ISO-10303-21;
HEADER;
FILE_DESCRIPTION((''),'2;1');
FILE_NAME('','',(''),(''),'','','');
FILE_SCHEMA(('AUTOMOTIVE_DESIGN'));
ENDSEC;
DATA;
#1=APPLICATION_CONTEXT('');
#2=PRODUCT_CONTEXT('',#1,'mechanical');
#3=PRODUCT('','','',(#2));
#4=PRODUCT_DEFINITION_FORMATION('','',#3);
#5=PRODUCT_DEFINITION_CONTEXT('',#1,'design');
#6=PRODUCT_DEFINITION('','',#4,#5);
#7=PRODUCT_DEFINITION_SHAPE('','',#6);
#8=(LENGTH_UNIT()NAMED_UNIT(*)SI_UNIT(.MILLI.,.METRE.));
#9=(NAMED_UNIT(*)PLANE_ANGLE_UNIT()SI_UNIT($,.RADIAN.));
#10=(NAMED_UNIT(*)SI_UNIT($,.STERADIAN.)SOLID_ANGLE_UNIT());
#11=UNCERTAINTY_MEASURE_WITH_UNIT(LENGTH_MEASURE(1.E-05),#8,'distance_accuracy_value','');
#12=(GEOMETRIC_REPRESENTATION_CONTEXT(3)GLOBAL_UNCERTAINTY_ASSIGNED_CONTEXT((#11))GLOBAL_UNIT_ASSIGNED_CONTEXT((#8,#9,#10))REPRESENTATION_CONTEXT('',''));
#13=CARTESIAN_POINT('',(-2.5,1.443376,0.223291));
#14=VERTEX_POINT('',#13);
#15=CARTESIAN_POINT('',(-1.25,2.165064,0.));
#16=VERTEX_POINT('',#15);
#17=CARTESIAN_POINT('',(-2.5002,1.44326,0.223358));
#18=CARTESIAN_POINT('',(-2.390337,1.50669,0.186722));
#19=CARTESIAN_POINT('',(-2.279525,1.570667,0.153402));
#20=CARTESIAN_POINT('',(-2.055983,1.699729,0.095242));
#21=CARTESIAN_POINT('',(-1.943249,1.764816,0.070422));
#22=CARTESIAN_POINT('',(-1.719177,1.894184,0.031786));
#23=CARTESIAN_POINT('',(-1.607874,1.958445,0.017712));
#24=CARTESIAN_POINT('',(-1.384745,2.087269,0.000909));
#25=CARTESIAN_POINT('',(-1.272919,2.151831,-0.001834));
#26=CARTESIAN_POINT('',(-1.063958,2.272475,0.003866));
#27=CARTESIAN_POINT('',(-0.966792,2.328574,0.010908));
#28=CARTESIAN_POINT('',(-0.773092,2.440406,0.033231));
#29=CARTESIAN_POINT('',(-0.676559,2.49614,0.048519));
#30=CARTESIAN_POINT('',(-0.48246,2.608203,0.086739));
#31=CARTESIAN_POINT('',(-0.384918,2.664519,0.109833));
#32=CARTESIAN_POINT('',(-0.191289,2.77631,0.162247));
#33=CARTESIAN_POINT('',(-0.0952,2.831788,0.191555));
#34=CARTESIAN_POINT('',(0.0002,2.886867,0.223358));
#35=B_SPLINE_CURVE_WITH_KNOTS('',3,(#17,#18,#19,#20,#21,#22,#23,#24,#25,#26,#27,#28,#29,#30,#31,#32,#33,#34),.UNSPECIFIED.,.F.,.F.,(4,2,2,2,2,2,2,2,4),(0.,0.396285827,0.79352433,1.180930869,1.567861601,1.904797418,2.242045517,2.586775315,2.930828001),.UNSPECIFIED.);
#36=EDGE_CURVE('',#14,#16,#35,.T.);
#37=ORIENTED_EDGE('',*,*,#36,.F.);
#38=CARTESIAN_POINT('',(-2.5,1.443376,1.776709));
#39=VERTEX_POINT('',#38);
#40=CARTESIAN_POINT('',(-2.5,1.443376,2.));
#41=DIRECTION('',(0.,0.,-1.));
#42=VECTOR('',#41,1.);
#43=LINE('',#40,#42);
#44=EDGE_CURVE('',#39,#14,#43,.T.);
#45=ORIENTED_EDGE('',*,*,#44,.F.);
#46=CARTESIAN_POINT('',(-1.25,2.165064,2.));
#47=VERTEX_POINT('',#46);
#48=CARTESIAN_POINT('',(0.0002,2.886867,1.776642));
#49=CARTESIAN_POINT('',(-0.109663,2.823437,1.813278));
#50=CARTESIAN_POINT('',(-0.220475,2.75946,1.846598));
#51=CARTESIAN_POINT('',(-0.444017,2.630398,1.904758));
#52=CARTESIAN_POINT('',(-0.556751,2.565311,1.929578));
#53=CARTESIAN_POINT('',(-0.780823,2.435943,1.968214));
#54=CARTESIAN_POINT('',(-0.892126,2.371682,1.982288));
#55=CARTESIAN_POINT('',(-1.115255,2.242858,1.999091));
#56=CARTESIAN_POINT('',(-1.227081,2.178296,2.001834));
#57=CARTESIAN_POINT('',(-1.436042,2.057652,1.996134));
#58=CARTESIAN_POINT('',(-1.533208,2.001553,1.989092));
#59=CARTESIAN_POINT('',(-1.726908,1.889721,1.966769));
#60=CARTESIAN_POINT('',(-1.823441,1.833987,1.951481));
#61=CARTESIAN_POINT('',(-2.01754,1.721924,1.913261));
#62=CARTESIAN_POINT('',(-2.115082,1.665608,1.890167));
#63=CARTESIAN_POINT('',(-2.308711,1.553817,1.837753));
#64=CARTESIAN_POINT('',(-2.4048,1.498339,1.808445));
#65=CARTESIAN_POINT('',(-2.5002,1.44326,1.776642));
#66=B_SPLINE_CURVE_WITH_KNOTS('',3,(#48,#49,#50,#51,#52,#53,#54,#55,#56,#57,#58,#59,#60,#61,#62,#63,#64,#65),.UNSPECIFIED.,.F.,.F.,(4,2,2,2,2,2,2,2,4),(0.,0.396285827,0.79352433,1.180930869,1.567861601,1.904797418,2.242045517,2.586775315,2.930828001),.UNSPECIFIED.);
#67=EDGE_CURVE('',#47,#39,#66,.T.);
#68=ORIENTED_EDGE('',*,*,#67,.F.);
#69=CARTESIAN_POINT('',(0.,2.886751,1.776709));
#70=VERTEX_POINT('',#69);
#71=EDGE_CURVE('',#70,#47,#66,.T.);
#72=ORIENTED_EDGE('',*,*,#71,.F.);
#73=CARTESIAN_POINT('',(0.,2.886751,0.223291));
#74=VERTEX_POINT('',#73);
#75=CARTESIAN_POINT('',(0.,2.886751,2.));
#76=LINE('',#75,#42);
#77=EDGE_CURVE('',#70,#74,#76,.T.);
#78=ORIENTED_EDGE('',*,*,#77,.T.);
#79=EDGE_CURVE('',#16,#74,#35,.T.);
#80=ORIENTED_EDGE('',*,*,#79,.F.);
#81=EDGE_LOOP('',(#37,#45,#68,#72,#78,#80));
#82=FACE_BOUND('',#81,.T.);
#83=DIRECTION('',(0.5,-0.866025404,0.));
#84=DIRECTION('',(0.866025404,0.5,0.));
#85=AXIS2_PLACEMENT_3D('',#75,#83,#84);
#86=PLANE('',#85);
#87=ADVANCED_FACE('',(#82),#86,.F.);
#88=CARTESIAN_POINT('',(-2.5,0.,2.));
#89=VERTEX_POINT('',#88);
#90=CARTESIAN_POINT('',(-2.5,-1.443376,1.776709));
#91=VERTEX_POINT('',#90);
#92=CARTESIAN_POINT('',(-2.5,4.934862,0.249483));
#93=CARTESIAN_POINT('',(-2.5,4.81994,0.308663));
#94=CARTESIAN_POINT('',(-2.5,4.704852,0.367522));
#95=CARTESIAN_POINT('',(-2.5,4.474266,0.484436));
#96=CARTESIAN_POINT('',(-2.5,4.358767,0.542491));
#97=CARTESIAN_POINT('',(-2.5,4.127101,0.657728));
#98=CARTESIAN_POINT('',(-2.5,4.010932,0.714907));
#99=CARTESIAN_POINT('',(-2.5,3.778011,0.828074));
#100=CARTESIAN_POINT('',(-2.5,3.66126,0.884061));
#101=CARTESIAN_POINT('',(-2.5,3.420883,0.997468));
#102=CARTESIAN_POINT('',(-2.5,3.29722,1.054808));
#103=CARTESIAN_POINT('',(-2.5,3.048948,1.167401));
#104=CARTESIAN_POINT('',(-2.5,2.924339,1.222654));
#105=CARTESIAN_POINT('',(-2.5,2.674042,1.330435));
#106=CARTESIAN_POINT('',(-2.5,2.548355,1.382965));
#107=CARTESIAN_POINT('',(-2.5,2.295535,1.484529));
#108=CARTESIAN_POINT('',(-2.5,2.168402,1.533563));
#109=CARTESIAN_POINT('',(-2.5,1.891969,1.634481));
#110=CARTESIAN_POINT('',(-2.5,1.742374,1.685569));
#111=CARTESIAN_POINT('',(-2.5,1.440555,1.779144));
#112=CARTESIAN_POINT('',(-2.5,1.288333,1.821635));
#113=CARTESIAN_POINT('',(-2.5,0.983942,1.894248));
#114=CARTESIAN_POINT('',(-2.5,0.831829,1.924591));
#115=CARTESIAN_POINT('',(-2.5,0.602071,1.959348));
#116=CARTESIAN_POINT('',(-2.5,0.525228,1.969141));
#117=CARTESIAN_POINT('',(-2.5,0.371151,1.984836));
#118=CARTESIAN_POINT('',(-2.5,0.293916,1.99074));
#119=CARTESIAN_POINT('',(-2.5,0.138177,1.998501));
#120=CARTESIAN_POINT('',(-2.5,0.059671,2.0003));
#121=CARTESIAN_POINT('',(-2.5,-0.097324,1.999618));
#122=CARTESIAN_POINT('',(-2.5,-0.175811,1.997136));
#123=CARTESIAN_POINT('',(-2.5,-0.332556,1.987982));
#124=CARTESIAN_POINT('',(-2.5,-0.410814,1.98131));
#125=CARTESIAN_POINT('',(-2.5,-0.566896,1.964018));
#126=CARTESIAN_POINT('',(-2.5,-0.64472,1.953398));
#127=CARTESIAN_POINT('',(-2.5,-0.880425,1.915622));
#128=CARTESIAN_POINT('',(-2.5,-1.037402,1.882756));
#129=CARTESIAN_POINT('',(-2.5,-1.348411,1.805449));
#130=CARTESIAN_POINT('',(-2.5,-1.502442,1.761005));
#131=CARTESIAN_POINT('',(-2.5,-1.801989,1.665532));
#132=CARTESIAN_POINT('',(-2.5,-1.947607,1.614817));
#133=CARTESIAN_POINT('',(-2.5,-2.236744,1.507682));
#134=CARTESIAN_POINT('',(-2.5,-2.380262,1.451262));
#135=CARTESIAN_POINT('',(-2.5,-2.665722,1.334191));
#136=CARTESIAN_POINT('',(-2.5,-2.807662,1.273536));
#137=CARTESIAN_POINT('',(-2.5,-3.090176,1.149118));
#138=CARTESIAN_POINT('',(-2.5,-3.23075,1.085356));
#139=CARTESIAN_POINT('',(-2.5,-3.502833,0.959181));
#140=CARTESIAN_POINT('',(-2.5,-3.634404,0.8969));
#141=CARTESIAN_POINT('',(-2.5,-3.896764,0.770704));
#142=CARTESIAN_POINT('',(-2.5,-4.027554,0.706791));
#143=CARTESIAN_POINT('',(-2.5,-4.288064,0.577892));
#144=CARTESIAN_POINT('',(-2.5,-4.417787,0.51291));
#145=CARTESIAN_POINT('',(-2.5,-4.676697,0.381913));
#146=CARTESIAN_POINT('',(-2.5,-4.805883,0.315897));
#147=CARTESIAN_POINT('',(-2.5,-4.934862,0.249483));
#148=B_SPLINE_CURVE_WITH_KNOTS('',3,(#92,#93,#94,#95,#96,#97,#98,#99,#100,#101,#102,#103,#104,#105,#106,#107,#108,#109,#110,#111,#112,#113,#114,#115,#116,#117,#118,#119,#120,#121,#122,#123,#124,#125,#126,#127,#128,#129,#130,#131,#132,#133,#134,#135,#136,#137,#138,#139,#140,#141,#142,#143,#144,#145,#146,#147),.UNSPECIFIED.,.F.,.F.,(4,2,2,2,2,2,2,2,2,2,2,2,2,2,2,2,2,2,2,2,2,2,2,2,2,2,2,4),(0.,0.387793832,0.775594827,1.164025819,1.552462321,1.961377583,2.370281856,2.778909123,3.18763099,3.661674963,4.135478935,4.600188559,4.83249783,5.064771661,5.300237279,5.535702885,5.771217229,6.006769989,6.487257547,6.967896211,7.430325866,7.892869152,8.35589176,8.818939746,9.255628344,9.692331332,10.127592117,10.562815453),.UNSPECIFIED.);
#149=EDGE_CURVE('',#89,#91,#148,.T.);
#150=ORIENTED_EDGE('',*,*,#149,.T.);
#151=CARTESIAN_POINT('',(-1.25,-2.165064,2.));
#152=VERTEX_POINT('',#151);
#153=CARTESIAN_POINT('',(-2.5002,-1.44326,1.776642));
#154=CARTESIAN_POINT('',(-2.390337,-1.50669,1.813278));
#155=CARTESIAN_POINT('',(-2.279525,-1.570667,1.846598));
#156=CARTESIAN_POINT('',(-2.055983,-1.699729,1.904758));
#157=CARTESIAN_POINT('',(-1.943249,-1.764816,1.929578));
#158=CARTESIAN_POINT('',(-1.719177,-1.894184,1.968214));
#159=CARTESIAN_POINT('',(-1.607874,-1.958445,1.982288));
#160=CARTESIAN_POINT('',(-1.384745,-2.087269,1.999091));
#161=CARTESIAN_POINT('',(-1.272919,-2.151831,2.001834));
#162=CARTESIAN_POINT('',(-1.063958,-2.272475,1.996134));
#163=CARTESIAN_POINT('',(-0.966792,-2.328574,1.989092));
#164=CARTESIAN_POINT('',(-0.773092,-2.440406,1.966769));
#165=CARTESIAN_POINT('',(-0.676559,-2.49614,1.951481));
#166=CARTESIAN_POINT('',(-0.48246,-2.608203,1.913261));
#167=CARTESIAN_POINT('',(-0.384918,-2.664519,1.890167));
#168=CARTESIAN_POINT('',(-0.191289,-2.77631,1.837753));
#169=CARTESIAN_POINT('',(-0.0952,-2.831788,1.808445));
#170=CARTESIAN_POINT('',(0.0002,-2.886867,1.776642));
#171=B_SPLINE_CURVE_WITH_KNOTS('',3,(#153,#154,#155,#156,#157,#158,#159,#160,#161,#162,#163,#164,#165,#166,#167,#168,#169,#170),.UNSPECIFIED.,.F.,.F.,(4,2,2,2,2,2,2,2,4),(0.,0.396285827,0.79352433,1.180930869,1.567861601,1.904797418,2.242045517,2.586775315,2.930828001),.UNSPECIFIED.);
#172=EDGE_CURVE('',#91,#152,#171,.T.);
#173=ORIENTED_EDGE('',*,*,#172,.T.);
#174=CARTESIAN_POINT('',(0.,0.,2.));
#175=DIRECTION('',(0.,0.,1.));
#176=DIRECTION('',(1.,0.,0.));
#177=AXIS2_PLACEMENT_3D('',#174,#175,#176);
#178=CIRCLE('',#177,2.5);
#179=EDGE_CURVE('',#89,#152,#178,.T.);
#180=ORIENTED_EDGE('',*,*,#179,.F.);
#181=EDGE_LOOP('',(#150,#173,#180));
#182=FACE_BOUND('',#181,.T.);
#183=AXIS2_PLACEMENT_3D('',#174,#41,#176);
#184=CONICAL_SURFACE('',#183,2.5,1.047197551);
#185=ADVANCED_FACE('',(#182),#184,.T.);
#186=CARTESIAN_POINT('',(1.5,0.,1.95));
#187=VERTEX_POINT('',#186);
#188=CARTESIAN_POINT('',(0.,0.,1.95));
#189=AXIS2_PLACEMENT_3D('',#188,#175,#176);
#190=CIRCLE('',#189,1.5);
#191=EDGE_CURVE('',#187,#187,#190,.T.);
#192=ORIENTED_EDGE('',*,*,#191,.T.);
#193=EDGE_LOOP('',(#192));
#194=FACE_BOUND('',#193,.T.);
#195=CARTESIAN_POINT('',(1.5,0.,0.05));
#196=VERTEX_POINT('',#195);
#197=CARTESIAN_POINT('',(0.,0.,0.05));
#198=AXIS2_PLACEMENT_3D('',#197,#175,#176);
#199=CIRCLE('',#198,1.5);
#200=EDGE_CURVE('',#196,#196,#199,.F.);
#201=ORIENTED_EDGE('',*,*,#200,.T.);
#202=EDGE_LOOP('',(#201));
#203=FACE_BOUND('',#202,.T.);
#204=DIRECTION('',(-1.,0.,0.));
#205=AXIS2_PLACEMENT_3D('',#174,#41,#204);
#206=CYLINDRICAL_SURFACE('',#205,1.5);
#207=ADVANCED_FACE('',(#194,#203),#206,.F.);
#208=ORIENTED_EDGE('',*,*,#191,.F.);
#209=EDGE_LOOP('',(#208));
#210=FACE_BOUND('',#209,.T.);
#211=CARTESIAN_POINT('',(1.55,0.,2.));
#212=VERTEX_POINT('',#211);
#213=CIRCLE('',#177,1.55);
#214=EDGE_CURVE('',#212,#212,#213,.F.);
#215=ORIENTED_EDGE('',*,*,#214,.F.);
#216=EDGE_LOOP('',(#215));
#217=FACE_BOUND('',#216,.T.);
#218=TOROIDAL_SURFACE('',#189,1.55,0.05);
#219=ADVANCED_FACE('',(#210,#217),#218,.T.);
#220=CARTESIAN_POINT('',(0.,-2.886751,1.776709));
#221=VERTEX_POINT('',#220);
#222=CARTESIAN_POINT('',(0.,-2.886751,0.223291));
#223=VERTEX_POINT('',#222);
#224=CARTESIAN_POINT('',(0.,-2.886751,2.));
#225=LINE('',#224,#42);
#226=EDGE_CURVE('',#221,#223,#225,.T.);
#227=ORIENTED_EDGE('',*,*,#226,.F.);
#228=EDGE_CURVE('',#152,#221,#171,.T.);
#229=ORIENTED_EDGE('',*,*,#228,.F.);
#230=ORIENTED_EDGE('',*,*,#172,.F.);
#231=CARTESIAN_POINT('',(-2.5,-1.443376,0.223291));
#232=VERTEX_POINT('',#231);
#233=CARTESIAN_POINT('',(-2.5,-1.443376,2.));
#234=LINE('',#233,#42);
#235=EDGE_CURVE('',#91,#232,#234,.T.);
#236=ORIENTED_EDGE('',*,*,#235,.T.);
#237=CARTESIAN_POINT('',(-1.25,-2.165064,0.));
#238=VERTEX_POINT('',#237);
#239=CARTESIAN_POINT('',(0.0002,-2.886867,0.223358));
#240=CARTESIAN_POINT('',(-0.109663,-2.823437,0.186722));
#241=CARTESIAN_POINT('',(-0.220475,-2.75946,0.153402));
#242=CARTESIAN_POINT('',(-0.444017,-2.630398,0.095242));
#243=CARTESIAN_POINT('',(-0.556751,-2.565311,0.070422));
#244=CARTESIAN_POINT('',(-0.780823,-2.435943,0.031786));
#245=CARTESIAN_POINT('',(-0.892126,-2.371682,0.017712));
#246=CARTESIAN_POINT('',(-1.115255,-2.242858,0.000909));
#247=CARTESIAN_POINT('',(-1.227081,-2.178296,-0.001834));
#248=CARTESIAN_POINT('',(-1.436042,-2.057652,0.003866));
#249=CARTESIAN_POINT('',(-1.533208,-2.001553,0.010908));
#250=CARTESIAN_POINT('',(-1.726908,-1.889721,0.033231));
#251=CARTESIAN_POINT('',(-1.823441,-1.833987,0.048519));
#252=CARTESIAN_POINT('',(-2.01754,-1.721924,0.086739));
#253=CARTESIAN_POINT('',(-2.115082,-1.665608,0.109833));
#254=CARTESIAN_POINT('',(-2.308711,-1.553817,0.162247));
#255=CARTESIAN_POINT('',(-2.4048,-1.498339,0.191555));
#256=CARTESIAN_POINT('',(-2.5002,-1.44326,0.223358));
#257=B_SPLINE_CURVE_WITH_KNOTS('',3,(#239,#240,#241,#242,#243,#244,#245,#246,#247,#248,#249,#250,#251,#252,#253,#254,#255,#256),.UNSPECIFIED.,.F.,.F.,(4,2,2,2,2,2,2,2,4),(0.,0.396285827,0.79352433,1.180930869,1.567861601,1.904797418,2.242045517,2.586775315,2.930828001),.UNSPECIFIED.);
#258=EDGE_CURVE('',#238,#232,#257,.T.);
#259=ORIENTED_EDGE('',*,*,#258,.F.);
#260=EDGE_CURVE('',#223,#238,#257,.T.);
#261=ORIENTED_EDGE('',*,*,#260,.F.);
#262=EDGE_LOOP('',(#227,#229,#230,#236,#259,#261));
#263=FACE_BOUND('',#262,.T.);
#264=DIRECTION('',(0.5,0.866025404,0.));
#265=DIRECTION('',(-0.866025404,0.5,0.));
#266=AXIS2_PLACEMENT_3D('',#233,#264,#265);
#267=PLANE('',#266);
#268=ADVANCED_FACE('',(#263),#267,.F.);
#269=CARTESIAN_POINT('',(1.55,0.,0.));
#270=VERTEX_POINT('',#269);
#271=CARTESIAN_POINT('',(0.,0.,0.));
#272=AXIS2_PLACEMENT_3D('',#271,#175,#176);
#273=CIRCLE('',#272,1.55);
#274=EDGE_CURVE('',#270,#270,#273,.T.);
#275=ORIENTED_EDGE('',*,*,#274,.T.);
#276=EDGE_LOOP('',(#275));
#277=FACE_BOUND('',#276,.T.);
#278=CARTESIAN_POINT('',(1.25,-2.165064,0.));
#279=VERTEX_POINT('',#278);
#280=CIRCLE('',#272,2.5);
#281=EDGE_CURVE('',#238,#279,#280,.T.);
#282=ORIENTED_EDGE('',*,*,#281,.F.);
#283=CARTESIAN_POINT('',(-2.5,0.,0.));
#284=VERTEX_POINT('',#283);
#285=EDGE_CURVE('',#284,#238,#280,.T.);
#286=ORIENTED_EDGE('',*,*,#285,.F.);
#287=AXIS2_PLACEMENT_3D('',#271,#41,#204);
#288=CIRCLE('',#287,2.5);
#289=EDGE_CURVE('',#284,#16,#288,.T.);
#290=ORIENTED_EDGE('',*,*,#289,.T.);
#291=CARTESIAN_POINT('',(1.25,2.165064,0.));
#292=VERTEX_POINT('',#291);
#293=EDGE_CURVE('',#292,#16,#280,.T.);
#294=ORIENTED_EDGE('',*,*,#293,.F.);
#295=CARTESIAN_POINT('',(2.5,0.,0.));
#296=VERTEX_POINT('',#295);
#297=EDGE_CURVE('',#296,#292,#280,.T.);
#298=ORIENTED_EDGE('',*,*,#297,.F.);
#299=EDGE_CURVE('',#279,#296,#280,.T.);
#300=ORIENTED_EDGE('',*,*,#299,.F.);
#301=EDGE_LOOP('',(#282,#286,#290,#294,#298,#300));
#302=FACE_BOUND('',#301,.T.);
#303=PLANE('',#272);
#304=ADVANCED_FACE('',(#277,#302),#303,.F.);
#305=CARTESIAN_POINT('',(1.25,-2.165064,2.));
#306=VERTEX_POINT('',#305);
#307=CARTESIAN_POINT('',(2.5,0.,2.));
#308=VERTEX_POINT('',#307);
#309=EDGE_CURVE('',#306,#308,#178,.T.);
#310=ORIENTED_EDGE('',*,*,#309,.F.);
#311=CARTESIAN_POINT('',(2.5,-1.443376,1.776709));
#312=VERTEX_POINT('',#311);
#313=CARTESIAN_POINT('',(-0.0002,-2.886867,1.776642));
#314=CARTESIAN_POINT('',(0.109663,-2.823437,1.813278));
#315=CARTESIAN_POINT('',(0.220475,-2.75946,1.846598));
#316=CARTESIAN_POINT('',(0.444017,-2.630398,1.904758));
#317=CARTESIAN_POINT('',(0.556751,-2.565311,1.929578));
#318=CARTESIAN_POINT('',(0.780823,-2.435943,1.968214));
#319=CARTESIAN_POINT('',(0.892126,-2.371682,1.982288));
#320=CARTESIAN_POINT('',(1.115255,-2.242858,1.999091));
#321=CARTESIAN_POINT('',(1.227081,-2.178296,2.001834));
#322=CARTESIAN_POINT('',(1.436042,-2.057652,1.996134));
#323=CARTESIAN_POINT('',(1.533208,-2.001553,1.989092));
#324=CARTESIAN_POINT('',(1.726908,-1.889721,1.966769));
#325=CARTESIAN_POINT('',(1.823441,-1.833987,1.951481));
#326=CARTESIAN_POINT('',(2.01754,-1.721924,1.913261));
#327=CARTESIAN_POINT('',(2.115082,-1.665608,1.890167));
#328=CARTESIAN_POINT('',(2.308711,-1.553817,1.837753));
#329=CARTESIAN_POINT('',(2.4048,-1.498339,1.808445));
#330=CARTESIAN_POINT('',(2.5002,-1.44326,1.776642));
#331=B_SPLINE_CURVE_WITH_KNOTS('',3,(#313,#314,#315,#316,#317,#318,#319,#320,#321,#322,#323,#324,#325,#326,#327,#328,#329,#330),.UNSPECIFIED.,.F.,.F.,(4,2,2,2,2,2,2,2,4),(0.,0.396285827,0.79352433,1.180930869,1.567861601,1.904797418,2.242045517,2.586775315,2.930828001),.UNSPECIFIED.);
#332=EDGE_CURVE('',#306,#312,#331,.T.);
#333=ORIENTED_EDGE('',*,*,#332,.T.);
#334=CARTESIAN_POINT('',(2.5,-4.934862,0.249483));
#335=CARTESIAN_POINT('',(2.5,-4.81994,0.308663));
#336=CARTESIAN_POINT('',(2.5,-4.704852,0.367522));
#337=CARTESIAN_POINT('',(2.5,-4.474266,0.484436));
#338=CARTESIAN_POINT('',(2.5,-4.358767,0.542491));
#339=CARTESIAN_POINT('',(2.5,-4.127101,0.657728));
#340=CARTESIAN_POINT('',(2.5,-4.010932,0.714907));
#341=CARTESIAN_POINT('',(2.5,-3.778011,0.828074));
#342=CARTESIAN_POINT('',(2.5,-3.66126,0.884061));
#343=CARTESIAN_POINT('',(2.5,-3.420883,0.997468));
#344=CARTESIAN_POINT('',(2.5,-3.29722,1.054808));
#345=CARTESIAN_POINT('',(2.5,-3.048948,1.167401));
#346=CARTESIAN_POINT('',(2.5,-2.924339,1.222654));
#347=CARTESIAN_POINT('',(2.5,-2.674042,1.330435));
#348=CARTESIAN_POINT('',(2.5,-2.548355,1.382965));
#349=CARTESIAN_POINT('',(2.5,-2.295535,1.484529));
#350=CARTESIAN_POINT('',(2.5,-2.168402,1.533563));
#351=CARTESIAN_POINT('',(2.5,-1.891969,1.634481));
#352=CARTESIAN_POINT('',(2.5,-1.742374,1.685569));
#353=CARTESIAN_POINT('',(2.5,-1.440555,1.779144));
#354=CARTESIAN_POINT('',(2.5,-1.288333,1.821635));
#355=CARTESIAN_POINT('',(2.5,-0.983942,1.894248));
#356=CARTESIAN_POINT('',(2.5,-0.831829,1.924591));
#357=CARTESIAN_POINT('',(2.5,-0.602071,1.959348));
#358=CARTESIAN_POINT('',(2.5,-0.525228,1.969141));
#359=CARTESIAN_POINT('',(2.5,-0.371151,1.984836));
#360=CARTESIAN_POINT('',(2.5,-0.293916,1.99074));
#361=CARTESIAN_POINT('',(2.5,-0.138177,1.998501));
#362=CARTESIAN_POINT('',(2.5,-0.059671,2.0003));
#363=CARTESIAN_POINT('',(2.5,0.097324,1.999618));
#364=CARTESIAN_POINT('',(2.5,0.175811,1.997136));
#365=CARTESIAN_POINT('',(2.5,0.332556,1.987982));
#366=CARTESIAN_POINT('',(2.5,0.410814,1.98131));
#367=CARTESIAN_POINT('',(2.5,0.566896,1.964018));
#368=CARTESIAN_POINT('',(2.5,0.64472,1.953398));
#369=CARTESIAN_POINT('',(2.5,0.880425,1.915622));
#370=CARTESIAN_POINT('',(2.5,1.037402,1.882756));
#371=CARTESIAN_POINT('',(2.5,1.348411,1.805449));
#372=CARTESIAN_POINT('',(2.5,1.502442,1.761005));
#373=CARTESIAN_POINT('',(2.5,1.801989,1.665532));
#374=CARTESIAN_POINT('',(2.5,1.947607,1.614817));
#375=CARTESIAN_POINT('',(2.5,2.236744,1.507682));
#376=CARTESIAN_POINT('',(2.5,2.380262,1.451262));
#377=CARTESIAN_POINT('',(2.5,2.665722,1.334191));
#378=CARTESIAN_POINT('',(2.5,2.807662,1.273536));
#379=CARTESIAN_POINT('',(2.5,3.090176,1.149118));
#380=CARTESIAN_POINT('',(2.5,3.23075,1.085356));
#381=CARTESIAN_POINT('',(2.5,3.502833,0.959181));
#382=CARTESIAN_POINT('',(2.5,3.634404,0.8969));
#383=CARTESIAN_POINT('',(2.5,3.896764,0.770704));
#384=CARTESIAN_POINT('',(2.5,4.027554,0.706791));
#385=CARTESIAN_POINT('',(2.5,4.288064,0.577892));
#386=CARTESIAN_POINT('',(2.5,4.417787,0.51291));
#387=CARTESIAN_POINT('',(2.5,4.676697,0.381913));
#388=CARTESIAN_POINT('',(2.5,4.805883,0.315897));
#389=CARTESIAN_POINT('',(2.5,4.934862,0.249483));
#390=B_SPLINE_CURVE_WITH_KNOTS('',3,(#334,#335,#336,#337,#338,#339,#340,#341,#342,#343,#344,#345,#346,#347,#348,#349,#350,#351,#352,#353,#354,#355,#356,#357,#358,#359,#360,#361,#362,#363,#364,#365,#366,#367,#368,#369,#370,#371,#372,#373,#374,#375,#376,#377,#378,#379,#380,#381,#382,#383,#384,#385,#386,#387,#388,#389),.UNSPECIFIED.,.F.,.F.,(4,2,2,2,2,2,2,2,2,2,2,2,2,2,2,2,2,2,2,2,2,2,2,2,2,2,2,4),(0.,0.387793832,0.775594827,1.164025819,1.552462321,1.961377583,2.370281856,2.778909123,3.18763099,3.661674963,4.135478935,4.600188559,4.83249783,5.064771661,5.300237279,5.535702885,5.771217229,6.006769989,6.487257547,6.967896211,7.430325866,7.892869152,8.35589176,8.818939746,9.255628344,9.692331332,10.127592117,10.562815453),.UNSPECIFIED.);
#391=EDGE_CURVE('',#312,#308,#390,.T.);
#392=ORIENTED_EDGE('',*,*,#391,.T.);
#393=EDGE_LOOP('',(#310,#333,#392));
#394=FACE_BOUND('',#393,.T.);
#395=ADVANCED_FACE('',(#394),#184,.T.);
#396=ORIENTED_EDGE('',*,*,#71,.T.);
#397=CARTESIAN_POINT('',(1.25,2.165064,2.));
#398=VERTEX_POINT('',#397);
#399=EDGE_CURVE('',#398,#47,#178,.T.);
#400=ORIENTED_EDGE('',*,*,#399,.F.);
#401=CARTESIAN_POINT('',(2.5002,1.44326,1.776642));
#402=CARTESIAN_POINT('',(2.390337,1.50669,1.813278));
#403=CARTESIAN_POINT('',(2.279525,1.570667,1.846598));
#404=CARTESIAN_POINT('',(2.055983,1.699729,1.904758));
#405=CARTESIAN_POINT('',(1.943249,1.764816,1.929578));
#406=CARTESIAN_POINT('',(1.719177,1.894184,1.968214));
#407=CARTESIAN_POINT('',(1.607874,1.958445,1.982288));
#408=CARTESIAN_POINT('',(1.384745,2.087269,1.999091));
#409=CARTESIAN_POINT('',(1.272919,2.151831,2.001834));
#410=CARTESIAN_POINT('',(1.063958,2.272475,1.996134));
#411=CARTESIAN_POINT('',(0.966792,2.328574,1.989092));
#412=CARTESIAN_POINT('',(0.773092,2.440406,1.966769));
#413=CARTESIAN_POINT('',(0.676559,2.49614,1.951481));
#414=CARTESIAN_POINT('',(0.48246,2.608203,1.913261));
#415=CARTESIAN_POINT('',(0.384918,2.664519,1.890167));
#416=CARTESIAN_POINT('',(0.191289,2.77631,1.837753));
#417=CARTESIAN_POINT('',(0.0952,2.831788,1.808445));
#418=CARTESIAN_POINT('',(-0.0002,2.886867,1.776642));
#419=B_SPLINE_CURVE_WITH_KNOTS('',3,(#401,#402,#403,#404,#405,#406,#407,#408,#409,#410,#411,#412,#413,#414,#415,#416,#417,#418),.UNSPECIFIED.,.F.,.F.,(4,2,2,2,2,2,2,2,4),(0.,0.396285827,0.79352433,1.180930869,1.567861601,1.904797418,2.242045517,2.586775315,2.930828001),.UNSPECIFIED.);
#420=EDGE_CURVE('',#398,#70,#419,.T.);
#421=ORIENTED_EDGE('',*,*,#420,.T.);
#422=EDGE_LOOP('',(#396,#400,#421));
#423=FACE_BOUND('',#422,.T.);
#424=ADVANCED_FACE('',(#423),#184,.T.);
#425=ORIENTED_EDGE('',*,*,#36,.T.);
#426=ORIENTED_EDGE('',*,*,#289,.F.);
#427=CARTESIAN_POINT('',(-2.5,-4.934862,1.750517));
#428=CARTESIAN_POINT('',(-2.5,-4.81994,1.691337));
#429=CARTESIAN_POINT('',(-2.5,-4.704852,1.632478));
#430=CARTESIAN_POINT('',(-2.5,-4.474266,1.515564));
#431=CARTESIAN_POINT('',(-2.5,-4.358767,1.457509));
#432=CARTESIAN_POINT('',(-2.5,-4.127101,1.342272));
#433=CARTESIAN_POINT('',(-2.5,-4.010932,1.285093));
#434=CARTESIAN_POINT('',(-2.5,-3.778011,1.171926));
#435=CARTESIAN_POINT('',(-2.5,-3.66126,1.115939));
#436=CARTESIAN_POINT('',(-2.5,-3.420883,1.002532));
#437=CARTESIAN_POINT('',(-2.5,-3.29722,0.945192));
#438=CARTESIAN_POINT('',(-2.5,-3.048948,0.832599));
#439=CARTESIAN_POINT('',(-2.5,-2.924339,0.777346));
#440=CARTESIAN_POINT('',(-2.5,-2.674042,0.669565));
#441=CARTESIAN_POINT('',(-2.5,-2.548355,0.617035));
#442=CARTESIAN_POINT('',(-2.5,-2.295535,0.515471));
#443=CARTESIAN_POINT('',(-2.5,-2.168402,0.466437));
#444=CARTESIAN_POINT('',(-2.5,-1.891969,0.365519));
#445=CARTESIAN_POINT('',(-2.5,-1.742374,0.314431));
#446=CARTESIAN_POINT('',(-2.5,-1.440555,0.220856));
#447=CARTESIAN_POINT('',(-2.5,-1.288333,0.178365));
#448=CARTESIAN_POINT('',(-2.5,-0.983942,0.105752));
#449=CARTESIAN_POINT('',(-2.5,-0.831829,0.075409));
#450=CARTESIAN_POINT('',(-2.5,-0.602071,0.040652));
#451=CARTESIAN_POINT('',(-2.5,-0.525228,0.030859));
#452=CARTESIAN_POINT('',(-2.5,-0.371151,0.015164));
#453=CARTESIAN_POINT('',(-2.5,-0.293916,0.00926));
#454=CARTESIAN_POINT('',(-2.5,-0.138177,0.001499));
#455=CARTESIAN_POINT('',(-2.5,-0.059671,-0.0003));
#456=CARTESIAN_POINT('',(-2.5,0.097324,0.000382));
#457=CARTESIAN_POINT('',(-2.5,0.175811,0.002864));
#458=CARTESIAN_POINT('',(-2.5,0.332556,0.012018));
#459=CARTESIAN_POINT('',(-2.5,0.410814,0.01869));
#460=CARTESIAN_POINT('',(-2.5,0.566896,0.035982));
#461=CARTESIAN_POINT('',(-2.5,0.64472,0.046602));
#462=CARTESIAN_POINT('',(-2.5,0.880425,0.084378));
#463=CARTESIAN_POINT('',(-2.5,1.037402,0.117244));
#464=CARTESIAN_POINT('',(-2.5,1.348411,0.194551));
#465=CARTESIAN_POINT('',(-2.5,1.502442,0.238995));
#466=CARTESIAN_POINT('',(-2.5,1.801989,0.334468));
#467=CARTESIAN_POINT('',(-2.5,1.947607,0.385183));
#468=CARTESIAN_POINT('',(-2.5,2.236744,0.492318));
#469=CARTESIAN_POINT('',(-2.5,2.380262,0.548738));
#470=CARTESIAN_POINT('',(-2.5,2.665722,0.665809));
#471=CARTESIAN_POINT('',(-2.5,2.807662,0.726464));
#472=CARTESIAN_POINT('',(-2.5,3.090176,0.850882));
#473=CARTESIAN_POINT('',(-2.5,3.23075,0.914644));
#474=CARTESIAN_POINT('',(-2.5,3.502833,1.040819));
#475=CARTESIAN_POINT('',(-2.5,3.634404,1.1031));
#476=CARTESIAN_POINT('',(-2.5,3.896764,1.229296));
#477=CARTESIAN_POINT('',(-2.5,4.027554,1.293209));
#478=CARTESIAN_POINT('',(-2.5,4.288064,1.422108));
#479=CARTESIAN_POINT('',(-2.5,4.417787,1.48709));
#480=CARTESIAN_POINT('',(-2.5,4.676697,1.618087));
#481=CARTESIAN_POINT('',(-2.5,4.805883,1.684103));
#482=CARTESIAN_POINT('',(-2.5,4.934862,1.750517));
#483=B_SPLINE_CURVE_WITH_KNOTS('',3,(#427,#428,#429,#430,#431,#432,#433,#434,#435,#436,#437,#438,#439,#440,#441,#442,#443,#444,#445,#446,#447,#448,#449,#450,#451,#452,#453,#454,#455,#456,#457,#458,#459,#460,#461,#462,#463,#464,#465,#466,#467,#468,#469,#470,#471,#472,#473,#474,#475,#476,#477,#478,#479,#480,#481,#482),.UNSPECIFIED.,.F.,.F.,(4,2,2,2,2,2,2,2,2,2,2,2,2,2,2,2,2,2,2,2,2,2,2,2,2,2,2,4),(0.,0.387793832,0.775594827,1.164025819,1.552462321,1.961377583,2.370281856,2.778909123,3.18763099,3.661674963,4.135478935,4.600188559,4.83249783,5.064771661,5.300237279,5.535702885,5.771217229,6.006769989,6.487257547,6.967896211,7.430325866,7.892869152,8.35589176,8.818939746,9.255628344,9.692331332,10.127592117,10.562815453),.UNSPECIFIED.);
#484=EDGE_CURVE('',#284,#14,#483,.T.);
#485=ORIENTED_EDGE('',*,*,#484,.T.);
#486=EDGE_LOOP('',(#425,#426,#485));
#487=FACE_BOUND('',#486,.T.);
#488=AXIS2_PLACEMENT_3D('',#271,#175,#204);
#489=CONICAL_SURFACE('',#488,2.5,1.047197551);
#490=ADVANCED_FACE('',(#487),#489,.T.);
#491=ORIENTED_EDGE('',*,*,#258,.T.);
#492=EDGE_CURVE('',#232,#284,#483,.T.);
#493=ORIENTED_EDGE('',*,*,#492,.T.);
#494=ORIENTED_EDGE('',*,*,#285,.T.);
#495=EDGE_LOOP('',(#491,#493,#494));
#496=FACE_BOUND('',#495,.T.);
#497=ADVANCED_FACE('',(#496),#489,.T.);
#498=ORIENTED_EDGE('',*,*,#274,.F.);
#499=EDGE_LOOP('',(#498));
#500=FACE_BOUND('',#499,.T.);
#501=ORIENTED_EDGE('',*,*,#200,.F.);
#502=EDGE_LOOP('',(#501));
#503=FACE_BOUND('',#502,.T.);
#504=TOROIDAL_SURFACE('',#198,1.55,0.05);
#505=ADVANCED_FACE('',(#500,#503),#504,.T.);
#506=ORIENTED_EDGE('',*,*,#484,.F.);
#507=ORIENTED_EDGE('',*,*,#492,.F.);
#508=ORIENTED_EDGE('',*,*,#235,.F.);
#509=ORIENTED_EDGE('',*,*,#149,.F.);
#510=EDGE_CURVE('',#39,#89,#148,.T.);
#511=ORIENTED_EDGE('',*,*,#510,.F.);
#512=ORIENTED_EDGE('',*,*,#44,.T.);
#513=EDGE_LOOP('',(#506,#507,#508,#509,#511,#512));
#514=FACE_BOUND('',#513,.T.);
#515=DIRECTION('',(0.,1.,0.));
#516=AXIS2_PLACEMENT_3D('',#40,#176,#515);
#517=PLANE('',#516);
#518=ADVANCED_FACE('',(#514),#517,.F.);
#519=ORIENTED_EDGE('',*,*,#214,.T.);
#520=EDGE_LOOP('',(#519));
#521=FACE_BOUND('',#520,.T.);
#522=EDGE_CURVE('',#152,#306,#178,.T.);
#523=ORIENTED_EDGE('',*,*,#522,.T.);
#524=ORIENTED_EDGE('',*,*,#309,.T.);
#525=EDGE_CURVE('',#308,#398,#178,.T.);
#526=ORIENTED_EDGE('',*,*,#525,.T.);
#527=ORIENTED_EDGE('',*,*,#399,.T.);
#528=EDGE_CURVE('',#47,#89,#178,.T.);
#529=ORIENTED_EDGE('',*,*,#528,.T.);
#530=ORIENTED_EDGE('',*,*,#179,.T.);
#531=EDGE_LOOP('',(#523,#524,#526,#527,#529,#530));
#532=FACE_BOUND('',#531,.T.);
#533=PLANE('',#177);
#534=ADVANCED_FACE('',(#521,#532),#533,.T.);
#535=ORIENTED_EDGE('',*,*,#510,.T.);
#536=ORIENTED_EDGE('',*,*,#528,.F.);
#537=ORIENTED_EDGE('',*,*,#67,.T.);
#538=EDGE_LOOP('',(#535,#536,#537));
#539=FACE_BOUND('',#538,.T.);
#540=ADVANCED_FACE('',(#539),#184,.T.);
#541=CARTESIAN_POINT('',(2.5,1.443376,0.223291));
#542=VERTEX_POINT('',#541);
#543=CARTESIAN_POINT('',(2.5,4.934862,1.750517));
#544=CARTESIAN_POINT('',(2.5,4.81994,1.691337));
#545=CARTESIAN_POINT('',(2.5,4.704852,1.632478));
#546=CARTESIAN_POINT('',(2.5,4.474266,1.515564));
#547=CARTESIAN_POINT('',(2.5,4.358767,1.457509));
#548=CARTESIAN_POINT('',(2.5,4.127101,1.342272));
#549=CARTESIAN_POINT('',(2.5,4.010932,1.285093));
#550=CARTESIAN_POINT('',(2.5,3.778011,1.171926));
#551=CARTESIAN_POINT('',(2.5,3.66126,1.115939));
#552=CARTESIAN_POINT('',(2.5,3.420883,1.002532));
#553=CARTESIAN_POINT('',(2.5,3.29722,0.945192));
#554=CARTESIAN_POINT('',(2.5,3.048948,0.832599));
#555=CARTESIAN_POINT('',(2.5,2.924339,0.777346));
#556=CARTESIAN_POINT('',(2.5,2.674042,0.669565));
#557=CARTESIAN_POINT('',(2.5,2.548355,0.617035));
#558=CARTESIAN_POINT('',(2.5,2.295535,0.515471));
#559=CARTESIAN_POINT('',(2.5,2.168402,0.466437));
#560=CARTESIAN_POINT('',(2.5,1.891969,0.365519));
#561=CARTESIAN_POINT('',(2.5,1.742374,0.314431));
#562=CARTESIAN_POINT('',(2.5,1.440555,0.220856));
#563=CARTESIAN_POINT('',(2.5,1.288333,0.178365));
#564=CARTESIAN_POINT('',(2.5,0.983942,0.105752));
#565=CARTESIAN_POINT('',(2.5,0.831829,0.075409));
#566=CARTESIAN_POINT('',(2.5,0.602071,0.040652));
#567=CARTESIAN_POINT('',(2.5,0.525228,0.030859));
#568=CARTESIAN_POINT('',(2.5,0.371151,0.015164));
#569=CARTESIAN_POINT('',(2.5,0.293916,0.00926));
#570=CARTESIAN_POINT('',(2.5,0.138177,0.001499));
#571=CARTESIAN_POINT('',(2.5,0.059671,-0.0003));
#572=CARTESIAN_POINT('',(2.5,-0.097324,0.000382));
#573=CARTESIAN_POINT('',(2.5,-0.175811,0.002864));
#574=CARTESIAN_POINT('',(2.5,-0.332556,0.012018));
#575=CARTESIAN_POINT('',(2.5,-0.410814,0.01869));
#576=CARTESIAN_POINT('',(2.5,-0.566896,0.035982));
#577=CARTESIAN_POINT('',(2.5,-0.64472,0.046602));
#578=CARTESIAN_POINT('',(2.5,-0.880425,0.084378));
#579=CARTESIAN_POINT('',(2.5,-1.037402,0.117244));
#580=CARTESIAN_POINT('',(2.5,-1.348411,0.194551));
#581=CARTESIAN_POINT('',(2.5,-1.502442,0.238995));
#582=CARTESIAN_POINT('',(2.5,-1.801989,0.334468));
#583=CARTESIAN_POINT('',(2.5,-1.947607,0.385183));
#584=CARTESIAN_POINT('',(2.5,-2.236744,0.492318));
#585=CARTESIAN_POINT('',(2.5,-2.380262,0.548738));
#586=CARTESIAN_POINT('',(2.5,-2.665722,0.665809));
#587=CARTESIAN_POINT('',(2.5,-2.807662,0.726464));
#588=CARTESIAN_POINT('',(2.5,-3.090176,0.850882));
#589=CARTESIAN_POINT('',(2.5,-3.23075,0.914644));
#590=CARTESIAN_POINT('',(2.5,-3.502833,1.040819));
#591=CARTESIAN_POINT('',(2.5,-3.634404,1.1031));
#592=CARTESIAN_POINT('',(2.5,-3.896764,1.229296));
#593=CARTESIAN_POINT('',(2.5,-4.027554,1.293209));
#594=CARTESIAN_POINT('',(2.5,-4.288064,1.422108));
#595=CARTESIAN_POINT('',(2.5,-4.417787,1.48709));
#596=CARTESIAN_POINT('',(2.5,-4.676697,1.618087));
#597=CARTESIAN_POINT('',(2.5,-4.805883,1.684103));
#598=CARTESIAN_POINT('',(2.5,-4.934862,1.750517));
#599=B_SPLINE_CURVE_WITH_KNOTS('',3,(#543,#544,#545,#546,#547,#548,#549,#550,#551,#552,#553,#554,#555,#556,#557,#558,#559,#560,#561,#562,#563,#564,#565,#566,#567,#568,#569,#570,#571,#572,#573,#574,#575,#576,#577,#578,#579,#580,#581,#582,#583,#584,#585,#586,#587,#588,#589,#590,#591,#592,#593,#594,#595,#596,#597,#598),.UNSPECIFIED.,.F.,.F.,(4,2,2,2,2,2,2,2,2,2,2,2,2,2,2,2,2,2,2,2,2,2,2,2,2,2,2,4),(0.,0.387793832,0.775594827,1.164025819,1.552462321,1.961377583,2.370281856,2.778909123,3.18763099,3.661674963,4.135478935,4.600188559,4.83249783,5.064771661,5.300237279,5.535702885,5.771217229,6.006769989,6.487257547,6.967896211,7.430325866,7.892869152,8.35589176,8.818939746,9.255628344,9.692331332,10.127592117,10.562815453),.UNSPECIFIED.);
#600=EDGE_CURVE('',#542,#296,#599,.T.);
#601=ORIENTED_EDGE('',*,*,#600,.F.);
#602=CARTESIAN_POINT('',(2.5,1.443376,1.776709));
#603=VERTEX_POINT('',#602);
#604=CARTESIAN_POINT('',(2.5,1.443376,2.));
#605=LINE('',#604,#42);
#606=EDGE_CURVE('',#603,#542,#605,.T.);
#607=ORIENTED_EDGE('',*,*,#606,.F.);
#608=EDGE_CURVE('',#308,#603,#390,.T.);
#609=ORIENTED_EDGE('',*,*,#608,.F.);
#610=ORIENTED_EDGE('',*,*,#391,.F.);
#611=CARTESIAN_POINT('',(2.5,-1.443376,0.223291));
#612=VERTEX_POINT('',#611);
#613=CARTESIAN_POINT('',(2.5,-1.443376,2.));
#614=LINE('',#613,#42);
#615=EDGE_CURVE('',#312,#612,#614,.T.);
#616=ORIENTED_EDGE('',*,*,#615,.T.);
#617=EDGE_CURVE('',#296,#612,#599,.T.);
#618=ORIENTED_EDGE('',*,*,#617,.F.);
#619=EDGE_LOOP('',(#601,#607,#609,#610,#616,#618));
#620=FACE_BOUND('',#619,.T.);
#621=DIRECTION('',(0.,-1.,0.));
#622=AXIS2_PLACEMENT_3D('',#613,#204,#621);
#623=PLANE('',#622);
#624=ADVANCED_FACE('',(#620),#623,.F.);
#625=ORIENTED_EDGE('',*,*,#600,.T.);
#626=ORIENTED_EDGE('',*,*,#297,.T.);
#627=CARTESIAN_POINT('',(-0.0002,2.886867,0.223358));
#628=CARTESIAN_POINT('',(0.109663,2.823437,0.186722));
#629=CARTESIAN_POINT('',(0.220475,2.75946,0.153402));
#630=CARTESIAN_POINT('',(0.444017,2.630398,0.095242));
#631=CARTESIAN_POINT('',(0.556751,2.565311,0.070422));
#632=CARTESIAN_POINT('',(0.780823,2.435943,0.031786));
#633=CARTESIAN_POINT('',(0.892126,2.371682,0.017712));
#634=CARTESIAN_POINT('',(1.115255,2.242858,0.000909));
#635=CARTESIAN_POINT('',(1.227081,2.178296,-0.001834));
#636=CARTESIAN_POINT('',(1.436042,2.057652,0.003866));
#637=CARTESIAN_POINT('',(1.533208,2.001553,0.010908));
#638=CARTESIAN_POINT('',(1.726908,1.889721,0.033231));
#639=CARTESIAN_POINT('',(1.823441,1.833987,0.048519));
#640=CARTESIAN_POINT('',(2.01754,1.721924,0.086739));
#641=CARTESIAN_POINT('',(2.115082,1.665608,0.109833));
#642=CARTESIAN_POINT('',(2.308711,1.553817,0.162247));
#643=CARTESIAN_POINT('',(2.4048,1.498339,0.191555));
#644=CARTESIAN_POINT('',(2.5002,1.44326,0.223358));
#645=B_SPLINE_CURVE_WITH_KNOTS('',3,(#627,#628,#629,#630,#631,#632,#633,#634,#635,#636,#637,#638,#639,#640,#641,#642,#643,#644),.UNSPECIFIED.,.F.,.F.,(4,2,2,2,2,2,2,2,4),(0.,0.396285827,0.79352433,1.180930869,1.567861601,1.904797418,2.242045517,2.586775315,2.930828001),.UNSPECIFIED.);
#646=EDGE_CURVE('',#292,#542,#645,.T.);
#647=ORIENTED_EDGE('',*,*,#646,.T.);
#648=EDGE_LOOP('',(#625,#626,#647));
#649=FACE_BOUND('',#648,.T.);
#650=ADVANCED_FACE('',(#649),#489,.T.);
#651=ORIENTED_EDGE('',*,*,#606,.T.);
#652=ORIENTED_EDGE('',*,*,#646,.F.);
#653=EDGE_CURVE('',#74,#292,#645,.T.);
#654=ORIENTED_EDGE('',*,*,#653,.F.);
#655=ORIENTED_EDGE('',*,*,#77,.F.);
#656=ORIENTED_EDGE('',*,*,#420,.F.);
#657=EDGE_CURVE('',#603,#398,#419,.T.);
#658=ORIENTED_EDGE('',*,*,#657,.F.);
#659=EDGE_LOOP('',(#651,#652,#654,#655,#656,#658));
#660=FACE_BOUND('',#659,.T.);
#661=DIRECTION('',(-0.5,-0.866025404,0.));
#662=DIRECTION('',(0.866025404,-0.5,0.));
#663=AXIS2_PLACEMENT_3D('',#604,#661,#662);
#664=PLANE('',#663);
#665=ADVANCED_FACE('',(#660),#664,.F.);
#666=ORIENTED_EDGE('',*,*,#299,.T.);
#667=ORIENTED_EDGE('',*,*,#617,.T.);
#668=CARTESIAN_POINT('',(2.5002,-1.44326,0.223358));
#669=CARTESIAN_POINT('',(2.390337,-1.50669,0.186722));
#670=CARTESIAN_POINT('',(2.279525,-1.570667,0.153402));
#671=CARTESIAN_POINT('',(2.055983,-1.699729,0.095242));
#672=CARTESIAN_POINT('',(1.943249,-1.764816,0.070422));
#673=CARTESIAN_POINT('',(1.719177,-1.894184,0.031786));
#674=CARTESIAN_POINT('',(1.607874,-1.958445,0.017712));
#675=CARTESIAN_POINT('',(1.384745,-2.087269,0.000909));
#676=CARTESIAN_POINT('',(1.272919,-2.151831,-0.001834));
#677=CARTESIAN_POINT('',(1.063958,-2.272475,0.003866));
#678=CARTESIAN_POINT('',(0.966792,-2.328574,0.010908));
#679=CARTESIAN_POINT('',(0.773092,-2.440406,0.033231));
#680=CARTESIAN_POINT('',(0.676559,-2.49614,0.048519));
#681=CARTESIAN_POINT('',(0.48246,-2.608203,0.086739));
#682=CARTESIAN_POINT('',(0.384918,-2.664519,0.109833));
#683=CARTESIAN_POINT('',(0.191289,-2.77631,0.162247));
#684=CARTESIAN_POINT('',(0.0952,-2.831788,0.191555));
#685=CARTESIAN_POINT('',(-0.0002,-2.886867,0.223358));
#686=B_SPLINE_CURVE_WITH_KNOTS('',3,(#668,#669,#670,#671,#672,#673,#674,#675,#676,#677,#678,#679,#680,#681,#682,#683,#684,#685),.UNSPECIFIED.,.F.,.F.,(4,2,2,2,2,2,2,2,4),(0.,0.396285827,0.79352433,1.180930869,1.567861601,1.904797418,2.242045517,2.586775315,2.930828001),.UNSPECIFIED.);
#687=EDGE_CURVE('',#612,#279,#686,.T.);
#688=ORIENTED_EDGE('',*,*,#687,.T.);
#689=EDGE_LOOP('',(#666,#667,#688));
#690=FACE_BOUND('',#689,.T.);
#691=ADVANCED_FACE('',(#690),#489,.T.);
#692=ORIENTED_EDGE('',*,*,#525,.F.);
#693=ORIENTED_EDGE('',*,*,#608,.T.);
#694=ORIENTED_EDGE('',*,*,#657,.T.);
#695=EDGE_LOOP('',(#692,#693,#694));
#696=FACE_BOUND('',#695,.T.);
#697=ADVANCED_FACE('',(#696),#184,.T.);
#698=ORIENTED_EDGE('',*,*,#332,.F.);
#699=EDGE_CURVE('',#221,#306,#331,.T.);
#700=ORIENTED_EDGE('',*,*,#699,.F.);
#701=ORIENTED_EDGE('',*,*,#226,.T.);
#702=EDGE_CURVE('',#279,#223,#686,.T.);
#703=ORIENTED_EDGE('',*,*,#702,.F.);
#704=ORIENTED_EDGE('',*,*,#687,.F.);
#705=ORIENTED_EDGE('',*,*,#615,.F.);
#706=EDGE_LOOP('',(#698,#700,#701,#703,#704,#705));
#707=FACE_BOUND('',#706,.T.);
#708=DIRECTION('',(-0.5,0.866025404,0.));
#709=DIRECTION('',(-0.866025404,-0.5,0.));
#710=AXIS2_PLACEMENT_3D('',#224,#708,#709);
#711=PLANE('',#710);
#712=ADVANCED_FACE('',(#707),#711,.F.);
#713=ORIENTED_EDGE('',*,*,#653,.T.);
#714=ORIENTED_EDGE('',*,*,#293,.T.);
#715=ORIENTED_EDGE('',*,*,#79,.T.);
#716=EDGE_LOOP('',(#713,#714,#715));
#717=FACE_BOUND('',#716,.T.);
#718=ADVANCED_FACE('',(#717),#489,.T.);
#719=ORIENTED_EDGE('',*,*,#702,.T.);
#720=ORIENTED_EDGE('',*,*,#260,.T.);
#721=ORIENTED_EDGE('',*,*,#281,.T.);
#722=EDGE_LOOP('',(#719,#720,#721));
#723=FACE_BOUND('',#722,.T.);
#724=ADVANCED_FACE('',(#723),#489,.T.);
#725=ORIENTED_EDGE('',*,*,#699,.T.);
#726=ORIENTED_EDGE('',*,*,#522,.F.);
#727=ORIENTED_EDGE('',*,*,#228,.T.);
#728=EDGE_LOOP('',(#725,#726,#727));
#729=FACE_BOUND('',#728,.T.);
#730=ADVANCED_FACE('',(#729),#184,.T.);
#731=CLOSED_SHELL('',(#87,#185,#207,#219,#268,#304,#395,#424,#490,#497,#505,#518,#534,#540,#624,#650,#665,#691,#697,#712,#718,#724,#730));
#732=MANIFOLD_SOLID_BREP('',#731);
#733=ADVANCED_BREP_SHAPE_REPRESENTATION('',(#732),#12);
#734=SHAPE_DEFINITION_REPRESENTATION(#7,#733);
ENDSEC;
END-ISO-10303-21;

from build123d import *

# Parameters (mm, degrees)
SKETCH1_R           = 1.5
BOSS_EXTRUDE1_DEPTH = 2
SKETCH2_OUTSIDE_W   = 15.508
SKETCH2_OUTSIDE_H   = 16.282
SKETCH2_OUTSIDE_R   = 2.5
CUT_EXTRUDE1_DEPTH  = 2
CUT_EXTRUDE1_TAPER  = 60
SKETCH3_OUTSIDE_W   = 15.508
SKETCH3_OUTSIDE_H   = 16.282
SKETCH3_OUTSIDE_R   = 2.5
CUT_EXTRUDE2_DEPTH  = 2
CUT_EXTRUDE2_TAPER  = 60
FILLET1_R           = 0.05


with BuildPart() as part:
    # Sketch1 → Boss-Extrude1 (new body)
    with BuildSketch(Plane.XY):
        Polygon((0, -2.886751346), (2.5, -1.443375673), (2.5, 1.443375673), (0, 2.886751346), (-2.5, 1.443375673), (-2.5, -1.443375673), align=None)
        Circle(SKETCH1_R, mode=Mode.SUBTRACT)
    extrude(amount=BOSS_EXTRUDE1_DEPTH)

    # Sketch2 outside → Cut-Extrude1 (cut)
    with BuildSketch(Plane.XY.offset(2)):
        Rectangle(SKETCH2_OUTSIDE_W, SKETCH2_OUTSIDE_H)
        Circle(SKETCH2_OUTSIDE_R, mode=Mode.SUBTRACT)
    extrude(amount=-CUT_EXTRUDE1_DEPTH, taper=CUT_EXTRUDE1_TAPER, mode=Mode.SUBTRACT)

    # Sketch3 outside → Cut-Extrude2 (cut)
    with BuildSketch(Plane(origin=(0, 0, 0), x_dir=(-1, 0, 0), z_dir=(0, 0, -1))):
        Rectangle(SKETCH3_OUTSIDE_W, SKETCH3_OUTSIDE_H)
        Circle(SKETCH3_OUTSIDE_R, mode=Mode.SUBTRACT)
    extrude(amount=-CUT_EXTRUDE2_DEPTH, taper=CUT_EXTRUDE2_TAPER, mode=Mode.SUBTRACT)

    # Fillet1
    fillet1_edges = [part.edges().sort_by_distance(p)[0] for p in [
        (-1.5, 0, 0),
        (-1.5, 0, 2),
    ]]
    fillet(fillet1_edges, radius=FILLET1_R)


solid = part.part
